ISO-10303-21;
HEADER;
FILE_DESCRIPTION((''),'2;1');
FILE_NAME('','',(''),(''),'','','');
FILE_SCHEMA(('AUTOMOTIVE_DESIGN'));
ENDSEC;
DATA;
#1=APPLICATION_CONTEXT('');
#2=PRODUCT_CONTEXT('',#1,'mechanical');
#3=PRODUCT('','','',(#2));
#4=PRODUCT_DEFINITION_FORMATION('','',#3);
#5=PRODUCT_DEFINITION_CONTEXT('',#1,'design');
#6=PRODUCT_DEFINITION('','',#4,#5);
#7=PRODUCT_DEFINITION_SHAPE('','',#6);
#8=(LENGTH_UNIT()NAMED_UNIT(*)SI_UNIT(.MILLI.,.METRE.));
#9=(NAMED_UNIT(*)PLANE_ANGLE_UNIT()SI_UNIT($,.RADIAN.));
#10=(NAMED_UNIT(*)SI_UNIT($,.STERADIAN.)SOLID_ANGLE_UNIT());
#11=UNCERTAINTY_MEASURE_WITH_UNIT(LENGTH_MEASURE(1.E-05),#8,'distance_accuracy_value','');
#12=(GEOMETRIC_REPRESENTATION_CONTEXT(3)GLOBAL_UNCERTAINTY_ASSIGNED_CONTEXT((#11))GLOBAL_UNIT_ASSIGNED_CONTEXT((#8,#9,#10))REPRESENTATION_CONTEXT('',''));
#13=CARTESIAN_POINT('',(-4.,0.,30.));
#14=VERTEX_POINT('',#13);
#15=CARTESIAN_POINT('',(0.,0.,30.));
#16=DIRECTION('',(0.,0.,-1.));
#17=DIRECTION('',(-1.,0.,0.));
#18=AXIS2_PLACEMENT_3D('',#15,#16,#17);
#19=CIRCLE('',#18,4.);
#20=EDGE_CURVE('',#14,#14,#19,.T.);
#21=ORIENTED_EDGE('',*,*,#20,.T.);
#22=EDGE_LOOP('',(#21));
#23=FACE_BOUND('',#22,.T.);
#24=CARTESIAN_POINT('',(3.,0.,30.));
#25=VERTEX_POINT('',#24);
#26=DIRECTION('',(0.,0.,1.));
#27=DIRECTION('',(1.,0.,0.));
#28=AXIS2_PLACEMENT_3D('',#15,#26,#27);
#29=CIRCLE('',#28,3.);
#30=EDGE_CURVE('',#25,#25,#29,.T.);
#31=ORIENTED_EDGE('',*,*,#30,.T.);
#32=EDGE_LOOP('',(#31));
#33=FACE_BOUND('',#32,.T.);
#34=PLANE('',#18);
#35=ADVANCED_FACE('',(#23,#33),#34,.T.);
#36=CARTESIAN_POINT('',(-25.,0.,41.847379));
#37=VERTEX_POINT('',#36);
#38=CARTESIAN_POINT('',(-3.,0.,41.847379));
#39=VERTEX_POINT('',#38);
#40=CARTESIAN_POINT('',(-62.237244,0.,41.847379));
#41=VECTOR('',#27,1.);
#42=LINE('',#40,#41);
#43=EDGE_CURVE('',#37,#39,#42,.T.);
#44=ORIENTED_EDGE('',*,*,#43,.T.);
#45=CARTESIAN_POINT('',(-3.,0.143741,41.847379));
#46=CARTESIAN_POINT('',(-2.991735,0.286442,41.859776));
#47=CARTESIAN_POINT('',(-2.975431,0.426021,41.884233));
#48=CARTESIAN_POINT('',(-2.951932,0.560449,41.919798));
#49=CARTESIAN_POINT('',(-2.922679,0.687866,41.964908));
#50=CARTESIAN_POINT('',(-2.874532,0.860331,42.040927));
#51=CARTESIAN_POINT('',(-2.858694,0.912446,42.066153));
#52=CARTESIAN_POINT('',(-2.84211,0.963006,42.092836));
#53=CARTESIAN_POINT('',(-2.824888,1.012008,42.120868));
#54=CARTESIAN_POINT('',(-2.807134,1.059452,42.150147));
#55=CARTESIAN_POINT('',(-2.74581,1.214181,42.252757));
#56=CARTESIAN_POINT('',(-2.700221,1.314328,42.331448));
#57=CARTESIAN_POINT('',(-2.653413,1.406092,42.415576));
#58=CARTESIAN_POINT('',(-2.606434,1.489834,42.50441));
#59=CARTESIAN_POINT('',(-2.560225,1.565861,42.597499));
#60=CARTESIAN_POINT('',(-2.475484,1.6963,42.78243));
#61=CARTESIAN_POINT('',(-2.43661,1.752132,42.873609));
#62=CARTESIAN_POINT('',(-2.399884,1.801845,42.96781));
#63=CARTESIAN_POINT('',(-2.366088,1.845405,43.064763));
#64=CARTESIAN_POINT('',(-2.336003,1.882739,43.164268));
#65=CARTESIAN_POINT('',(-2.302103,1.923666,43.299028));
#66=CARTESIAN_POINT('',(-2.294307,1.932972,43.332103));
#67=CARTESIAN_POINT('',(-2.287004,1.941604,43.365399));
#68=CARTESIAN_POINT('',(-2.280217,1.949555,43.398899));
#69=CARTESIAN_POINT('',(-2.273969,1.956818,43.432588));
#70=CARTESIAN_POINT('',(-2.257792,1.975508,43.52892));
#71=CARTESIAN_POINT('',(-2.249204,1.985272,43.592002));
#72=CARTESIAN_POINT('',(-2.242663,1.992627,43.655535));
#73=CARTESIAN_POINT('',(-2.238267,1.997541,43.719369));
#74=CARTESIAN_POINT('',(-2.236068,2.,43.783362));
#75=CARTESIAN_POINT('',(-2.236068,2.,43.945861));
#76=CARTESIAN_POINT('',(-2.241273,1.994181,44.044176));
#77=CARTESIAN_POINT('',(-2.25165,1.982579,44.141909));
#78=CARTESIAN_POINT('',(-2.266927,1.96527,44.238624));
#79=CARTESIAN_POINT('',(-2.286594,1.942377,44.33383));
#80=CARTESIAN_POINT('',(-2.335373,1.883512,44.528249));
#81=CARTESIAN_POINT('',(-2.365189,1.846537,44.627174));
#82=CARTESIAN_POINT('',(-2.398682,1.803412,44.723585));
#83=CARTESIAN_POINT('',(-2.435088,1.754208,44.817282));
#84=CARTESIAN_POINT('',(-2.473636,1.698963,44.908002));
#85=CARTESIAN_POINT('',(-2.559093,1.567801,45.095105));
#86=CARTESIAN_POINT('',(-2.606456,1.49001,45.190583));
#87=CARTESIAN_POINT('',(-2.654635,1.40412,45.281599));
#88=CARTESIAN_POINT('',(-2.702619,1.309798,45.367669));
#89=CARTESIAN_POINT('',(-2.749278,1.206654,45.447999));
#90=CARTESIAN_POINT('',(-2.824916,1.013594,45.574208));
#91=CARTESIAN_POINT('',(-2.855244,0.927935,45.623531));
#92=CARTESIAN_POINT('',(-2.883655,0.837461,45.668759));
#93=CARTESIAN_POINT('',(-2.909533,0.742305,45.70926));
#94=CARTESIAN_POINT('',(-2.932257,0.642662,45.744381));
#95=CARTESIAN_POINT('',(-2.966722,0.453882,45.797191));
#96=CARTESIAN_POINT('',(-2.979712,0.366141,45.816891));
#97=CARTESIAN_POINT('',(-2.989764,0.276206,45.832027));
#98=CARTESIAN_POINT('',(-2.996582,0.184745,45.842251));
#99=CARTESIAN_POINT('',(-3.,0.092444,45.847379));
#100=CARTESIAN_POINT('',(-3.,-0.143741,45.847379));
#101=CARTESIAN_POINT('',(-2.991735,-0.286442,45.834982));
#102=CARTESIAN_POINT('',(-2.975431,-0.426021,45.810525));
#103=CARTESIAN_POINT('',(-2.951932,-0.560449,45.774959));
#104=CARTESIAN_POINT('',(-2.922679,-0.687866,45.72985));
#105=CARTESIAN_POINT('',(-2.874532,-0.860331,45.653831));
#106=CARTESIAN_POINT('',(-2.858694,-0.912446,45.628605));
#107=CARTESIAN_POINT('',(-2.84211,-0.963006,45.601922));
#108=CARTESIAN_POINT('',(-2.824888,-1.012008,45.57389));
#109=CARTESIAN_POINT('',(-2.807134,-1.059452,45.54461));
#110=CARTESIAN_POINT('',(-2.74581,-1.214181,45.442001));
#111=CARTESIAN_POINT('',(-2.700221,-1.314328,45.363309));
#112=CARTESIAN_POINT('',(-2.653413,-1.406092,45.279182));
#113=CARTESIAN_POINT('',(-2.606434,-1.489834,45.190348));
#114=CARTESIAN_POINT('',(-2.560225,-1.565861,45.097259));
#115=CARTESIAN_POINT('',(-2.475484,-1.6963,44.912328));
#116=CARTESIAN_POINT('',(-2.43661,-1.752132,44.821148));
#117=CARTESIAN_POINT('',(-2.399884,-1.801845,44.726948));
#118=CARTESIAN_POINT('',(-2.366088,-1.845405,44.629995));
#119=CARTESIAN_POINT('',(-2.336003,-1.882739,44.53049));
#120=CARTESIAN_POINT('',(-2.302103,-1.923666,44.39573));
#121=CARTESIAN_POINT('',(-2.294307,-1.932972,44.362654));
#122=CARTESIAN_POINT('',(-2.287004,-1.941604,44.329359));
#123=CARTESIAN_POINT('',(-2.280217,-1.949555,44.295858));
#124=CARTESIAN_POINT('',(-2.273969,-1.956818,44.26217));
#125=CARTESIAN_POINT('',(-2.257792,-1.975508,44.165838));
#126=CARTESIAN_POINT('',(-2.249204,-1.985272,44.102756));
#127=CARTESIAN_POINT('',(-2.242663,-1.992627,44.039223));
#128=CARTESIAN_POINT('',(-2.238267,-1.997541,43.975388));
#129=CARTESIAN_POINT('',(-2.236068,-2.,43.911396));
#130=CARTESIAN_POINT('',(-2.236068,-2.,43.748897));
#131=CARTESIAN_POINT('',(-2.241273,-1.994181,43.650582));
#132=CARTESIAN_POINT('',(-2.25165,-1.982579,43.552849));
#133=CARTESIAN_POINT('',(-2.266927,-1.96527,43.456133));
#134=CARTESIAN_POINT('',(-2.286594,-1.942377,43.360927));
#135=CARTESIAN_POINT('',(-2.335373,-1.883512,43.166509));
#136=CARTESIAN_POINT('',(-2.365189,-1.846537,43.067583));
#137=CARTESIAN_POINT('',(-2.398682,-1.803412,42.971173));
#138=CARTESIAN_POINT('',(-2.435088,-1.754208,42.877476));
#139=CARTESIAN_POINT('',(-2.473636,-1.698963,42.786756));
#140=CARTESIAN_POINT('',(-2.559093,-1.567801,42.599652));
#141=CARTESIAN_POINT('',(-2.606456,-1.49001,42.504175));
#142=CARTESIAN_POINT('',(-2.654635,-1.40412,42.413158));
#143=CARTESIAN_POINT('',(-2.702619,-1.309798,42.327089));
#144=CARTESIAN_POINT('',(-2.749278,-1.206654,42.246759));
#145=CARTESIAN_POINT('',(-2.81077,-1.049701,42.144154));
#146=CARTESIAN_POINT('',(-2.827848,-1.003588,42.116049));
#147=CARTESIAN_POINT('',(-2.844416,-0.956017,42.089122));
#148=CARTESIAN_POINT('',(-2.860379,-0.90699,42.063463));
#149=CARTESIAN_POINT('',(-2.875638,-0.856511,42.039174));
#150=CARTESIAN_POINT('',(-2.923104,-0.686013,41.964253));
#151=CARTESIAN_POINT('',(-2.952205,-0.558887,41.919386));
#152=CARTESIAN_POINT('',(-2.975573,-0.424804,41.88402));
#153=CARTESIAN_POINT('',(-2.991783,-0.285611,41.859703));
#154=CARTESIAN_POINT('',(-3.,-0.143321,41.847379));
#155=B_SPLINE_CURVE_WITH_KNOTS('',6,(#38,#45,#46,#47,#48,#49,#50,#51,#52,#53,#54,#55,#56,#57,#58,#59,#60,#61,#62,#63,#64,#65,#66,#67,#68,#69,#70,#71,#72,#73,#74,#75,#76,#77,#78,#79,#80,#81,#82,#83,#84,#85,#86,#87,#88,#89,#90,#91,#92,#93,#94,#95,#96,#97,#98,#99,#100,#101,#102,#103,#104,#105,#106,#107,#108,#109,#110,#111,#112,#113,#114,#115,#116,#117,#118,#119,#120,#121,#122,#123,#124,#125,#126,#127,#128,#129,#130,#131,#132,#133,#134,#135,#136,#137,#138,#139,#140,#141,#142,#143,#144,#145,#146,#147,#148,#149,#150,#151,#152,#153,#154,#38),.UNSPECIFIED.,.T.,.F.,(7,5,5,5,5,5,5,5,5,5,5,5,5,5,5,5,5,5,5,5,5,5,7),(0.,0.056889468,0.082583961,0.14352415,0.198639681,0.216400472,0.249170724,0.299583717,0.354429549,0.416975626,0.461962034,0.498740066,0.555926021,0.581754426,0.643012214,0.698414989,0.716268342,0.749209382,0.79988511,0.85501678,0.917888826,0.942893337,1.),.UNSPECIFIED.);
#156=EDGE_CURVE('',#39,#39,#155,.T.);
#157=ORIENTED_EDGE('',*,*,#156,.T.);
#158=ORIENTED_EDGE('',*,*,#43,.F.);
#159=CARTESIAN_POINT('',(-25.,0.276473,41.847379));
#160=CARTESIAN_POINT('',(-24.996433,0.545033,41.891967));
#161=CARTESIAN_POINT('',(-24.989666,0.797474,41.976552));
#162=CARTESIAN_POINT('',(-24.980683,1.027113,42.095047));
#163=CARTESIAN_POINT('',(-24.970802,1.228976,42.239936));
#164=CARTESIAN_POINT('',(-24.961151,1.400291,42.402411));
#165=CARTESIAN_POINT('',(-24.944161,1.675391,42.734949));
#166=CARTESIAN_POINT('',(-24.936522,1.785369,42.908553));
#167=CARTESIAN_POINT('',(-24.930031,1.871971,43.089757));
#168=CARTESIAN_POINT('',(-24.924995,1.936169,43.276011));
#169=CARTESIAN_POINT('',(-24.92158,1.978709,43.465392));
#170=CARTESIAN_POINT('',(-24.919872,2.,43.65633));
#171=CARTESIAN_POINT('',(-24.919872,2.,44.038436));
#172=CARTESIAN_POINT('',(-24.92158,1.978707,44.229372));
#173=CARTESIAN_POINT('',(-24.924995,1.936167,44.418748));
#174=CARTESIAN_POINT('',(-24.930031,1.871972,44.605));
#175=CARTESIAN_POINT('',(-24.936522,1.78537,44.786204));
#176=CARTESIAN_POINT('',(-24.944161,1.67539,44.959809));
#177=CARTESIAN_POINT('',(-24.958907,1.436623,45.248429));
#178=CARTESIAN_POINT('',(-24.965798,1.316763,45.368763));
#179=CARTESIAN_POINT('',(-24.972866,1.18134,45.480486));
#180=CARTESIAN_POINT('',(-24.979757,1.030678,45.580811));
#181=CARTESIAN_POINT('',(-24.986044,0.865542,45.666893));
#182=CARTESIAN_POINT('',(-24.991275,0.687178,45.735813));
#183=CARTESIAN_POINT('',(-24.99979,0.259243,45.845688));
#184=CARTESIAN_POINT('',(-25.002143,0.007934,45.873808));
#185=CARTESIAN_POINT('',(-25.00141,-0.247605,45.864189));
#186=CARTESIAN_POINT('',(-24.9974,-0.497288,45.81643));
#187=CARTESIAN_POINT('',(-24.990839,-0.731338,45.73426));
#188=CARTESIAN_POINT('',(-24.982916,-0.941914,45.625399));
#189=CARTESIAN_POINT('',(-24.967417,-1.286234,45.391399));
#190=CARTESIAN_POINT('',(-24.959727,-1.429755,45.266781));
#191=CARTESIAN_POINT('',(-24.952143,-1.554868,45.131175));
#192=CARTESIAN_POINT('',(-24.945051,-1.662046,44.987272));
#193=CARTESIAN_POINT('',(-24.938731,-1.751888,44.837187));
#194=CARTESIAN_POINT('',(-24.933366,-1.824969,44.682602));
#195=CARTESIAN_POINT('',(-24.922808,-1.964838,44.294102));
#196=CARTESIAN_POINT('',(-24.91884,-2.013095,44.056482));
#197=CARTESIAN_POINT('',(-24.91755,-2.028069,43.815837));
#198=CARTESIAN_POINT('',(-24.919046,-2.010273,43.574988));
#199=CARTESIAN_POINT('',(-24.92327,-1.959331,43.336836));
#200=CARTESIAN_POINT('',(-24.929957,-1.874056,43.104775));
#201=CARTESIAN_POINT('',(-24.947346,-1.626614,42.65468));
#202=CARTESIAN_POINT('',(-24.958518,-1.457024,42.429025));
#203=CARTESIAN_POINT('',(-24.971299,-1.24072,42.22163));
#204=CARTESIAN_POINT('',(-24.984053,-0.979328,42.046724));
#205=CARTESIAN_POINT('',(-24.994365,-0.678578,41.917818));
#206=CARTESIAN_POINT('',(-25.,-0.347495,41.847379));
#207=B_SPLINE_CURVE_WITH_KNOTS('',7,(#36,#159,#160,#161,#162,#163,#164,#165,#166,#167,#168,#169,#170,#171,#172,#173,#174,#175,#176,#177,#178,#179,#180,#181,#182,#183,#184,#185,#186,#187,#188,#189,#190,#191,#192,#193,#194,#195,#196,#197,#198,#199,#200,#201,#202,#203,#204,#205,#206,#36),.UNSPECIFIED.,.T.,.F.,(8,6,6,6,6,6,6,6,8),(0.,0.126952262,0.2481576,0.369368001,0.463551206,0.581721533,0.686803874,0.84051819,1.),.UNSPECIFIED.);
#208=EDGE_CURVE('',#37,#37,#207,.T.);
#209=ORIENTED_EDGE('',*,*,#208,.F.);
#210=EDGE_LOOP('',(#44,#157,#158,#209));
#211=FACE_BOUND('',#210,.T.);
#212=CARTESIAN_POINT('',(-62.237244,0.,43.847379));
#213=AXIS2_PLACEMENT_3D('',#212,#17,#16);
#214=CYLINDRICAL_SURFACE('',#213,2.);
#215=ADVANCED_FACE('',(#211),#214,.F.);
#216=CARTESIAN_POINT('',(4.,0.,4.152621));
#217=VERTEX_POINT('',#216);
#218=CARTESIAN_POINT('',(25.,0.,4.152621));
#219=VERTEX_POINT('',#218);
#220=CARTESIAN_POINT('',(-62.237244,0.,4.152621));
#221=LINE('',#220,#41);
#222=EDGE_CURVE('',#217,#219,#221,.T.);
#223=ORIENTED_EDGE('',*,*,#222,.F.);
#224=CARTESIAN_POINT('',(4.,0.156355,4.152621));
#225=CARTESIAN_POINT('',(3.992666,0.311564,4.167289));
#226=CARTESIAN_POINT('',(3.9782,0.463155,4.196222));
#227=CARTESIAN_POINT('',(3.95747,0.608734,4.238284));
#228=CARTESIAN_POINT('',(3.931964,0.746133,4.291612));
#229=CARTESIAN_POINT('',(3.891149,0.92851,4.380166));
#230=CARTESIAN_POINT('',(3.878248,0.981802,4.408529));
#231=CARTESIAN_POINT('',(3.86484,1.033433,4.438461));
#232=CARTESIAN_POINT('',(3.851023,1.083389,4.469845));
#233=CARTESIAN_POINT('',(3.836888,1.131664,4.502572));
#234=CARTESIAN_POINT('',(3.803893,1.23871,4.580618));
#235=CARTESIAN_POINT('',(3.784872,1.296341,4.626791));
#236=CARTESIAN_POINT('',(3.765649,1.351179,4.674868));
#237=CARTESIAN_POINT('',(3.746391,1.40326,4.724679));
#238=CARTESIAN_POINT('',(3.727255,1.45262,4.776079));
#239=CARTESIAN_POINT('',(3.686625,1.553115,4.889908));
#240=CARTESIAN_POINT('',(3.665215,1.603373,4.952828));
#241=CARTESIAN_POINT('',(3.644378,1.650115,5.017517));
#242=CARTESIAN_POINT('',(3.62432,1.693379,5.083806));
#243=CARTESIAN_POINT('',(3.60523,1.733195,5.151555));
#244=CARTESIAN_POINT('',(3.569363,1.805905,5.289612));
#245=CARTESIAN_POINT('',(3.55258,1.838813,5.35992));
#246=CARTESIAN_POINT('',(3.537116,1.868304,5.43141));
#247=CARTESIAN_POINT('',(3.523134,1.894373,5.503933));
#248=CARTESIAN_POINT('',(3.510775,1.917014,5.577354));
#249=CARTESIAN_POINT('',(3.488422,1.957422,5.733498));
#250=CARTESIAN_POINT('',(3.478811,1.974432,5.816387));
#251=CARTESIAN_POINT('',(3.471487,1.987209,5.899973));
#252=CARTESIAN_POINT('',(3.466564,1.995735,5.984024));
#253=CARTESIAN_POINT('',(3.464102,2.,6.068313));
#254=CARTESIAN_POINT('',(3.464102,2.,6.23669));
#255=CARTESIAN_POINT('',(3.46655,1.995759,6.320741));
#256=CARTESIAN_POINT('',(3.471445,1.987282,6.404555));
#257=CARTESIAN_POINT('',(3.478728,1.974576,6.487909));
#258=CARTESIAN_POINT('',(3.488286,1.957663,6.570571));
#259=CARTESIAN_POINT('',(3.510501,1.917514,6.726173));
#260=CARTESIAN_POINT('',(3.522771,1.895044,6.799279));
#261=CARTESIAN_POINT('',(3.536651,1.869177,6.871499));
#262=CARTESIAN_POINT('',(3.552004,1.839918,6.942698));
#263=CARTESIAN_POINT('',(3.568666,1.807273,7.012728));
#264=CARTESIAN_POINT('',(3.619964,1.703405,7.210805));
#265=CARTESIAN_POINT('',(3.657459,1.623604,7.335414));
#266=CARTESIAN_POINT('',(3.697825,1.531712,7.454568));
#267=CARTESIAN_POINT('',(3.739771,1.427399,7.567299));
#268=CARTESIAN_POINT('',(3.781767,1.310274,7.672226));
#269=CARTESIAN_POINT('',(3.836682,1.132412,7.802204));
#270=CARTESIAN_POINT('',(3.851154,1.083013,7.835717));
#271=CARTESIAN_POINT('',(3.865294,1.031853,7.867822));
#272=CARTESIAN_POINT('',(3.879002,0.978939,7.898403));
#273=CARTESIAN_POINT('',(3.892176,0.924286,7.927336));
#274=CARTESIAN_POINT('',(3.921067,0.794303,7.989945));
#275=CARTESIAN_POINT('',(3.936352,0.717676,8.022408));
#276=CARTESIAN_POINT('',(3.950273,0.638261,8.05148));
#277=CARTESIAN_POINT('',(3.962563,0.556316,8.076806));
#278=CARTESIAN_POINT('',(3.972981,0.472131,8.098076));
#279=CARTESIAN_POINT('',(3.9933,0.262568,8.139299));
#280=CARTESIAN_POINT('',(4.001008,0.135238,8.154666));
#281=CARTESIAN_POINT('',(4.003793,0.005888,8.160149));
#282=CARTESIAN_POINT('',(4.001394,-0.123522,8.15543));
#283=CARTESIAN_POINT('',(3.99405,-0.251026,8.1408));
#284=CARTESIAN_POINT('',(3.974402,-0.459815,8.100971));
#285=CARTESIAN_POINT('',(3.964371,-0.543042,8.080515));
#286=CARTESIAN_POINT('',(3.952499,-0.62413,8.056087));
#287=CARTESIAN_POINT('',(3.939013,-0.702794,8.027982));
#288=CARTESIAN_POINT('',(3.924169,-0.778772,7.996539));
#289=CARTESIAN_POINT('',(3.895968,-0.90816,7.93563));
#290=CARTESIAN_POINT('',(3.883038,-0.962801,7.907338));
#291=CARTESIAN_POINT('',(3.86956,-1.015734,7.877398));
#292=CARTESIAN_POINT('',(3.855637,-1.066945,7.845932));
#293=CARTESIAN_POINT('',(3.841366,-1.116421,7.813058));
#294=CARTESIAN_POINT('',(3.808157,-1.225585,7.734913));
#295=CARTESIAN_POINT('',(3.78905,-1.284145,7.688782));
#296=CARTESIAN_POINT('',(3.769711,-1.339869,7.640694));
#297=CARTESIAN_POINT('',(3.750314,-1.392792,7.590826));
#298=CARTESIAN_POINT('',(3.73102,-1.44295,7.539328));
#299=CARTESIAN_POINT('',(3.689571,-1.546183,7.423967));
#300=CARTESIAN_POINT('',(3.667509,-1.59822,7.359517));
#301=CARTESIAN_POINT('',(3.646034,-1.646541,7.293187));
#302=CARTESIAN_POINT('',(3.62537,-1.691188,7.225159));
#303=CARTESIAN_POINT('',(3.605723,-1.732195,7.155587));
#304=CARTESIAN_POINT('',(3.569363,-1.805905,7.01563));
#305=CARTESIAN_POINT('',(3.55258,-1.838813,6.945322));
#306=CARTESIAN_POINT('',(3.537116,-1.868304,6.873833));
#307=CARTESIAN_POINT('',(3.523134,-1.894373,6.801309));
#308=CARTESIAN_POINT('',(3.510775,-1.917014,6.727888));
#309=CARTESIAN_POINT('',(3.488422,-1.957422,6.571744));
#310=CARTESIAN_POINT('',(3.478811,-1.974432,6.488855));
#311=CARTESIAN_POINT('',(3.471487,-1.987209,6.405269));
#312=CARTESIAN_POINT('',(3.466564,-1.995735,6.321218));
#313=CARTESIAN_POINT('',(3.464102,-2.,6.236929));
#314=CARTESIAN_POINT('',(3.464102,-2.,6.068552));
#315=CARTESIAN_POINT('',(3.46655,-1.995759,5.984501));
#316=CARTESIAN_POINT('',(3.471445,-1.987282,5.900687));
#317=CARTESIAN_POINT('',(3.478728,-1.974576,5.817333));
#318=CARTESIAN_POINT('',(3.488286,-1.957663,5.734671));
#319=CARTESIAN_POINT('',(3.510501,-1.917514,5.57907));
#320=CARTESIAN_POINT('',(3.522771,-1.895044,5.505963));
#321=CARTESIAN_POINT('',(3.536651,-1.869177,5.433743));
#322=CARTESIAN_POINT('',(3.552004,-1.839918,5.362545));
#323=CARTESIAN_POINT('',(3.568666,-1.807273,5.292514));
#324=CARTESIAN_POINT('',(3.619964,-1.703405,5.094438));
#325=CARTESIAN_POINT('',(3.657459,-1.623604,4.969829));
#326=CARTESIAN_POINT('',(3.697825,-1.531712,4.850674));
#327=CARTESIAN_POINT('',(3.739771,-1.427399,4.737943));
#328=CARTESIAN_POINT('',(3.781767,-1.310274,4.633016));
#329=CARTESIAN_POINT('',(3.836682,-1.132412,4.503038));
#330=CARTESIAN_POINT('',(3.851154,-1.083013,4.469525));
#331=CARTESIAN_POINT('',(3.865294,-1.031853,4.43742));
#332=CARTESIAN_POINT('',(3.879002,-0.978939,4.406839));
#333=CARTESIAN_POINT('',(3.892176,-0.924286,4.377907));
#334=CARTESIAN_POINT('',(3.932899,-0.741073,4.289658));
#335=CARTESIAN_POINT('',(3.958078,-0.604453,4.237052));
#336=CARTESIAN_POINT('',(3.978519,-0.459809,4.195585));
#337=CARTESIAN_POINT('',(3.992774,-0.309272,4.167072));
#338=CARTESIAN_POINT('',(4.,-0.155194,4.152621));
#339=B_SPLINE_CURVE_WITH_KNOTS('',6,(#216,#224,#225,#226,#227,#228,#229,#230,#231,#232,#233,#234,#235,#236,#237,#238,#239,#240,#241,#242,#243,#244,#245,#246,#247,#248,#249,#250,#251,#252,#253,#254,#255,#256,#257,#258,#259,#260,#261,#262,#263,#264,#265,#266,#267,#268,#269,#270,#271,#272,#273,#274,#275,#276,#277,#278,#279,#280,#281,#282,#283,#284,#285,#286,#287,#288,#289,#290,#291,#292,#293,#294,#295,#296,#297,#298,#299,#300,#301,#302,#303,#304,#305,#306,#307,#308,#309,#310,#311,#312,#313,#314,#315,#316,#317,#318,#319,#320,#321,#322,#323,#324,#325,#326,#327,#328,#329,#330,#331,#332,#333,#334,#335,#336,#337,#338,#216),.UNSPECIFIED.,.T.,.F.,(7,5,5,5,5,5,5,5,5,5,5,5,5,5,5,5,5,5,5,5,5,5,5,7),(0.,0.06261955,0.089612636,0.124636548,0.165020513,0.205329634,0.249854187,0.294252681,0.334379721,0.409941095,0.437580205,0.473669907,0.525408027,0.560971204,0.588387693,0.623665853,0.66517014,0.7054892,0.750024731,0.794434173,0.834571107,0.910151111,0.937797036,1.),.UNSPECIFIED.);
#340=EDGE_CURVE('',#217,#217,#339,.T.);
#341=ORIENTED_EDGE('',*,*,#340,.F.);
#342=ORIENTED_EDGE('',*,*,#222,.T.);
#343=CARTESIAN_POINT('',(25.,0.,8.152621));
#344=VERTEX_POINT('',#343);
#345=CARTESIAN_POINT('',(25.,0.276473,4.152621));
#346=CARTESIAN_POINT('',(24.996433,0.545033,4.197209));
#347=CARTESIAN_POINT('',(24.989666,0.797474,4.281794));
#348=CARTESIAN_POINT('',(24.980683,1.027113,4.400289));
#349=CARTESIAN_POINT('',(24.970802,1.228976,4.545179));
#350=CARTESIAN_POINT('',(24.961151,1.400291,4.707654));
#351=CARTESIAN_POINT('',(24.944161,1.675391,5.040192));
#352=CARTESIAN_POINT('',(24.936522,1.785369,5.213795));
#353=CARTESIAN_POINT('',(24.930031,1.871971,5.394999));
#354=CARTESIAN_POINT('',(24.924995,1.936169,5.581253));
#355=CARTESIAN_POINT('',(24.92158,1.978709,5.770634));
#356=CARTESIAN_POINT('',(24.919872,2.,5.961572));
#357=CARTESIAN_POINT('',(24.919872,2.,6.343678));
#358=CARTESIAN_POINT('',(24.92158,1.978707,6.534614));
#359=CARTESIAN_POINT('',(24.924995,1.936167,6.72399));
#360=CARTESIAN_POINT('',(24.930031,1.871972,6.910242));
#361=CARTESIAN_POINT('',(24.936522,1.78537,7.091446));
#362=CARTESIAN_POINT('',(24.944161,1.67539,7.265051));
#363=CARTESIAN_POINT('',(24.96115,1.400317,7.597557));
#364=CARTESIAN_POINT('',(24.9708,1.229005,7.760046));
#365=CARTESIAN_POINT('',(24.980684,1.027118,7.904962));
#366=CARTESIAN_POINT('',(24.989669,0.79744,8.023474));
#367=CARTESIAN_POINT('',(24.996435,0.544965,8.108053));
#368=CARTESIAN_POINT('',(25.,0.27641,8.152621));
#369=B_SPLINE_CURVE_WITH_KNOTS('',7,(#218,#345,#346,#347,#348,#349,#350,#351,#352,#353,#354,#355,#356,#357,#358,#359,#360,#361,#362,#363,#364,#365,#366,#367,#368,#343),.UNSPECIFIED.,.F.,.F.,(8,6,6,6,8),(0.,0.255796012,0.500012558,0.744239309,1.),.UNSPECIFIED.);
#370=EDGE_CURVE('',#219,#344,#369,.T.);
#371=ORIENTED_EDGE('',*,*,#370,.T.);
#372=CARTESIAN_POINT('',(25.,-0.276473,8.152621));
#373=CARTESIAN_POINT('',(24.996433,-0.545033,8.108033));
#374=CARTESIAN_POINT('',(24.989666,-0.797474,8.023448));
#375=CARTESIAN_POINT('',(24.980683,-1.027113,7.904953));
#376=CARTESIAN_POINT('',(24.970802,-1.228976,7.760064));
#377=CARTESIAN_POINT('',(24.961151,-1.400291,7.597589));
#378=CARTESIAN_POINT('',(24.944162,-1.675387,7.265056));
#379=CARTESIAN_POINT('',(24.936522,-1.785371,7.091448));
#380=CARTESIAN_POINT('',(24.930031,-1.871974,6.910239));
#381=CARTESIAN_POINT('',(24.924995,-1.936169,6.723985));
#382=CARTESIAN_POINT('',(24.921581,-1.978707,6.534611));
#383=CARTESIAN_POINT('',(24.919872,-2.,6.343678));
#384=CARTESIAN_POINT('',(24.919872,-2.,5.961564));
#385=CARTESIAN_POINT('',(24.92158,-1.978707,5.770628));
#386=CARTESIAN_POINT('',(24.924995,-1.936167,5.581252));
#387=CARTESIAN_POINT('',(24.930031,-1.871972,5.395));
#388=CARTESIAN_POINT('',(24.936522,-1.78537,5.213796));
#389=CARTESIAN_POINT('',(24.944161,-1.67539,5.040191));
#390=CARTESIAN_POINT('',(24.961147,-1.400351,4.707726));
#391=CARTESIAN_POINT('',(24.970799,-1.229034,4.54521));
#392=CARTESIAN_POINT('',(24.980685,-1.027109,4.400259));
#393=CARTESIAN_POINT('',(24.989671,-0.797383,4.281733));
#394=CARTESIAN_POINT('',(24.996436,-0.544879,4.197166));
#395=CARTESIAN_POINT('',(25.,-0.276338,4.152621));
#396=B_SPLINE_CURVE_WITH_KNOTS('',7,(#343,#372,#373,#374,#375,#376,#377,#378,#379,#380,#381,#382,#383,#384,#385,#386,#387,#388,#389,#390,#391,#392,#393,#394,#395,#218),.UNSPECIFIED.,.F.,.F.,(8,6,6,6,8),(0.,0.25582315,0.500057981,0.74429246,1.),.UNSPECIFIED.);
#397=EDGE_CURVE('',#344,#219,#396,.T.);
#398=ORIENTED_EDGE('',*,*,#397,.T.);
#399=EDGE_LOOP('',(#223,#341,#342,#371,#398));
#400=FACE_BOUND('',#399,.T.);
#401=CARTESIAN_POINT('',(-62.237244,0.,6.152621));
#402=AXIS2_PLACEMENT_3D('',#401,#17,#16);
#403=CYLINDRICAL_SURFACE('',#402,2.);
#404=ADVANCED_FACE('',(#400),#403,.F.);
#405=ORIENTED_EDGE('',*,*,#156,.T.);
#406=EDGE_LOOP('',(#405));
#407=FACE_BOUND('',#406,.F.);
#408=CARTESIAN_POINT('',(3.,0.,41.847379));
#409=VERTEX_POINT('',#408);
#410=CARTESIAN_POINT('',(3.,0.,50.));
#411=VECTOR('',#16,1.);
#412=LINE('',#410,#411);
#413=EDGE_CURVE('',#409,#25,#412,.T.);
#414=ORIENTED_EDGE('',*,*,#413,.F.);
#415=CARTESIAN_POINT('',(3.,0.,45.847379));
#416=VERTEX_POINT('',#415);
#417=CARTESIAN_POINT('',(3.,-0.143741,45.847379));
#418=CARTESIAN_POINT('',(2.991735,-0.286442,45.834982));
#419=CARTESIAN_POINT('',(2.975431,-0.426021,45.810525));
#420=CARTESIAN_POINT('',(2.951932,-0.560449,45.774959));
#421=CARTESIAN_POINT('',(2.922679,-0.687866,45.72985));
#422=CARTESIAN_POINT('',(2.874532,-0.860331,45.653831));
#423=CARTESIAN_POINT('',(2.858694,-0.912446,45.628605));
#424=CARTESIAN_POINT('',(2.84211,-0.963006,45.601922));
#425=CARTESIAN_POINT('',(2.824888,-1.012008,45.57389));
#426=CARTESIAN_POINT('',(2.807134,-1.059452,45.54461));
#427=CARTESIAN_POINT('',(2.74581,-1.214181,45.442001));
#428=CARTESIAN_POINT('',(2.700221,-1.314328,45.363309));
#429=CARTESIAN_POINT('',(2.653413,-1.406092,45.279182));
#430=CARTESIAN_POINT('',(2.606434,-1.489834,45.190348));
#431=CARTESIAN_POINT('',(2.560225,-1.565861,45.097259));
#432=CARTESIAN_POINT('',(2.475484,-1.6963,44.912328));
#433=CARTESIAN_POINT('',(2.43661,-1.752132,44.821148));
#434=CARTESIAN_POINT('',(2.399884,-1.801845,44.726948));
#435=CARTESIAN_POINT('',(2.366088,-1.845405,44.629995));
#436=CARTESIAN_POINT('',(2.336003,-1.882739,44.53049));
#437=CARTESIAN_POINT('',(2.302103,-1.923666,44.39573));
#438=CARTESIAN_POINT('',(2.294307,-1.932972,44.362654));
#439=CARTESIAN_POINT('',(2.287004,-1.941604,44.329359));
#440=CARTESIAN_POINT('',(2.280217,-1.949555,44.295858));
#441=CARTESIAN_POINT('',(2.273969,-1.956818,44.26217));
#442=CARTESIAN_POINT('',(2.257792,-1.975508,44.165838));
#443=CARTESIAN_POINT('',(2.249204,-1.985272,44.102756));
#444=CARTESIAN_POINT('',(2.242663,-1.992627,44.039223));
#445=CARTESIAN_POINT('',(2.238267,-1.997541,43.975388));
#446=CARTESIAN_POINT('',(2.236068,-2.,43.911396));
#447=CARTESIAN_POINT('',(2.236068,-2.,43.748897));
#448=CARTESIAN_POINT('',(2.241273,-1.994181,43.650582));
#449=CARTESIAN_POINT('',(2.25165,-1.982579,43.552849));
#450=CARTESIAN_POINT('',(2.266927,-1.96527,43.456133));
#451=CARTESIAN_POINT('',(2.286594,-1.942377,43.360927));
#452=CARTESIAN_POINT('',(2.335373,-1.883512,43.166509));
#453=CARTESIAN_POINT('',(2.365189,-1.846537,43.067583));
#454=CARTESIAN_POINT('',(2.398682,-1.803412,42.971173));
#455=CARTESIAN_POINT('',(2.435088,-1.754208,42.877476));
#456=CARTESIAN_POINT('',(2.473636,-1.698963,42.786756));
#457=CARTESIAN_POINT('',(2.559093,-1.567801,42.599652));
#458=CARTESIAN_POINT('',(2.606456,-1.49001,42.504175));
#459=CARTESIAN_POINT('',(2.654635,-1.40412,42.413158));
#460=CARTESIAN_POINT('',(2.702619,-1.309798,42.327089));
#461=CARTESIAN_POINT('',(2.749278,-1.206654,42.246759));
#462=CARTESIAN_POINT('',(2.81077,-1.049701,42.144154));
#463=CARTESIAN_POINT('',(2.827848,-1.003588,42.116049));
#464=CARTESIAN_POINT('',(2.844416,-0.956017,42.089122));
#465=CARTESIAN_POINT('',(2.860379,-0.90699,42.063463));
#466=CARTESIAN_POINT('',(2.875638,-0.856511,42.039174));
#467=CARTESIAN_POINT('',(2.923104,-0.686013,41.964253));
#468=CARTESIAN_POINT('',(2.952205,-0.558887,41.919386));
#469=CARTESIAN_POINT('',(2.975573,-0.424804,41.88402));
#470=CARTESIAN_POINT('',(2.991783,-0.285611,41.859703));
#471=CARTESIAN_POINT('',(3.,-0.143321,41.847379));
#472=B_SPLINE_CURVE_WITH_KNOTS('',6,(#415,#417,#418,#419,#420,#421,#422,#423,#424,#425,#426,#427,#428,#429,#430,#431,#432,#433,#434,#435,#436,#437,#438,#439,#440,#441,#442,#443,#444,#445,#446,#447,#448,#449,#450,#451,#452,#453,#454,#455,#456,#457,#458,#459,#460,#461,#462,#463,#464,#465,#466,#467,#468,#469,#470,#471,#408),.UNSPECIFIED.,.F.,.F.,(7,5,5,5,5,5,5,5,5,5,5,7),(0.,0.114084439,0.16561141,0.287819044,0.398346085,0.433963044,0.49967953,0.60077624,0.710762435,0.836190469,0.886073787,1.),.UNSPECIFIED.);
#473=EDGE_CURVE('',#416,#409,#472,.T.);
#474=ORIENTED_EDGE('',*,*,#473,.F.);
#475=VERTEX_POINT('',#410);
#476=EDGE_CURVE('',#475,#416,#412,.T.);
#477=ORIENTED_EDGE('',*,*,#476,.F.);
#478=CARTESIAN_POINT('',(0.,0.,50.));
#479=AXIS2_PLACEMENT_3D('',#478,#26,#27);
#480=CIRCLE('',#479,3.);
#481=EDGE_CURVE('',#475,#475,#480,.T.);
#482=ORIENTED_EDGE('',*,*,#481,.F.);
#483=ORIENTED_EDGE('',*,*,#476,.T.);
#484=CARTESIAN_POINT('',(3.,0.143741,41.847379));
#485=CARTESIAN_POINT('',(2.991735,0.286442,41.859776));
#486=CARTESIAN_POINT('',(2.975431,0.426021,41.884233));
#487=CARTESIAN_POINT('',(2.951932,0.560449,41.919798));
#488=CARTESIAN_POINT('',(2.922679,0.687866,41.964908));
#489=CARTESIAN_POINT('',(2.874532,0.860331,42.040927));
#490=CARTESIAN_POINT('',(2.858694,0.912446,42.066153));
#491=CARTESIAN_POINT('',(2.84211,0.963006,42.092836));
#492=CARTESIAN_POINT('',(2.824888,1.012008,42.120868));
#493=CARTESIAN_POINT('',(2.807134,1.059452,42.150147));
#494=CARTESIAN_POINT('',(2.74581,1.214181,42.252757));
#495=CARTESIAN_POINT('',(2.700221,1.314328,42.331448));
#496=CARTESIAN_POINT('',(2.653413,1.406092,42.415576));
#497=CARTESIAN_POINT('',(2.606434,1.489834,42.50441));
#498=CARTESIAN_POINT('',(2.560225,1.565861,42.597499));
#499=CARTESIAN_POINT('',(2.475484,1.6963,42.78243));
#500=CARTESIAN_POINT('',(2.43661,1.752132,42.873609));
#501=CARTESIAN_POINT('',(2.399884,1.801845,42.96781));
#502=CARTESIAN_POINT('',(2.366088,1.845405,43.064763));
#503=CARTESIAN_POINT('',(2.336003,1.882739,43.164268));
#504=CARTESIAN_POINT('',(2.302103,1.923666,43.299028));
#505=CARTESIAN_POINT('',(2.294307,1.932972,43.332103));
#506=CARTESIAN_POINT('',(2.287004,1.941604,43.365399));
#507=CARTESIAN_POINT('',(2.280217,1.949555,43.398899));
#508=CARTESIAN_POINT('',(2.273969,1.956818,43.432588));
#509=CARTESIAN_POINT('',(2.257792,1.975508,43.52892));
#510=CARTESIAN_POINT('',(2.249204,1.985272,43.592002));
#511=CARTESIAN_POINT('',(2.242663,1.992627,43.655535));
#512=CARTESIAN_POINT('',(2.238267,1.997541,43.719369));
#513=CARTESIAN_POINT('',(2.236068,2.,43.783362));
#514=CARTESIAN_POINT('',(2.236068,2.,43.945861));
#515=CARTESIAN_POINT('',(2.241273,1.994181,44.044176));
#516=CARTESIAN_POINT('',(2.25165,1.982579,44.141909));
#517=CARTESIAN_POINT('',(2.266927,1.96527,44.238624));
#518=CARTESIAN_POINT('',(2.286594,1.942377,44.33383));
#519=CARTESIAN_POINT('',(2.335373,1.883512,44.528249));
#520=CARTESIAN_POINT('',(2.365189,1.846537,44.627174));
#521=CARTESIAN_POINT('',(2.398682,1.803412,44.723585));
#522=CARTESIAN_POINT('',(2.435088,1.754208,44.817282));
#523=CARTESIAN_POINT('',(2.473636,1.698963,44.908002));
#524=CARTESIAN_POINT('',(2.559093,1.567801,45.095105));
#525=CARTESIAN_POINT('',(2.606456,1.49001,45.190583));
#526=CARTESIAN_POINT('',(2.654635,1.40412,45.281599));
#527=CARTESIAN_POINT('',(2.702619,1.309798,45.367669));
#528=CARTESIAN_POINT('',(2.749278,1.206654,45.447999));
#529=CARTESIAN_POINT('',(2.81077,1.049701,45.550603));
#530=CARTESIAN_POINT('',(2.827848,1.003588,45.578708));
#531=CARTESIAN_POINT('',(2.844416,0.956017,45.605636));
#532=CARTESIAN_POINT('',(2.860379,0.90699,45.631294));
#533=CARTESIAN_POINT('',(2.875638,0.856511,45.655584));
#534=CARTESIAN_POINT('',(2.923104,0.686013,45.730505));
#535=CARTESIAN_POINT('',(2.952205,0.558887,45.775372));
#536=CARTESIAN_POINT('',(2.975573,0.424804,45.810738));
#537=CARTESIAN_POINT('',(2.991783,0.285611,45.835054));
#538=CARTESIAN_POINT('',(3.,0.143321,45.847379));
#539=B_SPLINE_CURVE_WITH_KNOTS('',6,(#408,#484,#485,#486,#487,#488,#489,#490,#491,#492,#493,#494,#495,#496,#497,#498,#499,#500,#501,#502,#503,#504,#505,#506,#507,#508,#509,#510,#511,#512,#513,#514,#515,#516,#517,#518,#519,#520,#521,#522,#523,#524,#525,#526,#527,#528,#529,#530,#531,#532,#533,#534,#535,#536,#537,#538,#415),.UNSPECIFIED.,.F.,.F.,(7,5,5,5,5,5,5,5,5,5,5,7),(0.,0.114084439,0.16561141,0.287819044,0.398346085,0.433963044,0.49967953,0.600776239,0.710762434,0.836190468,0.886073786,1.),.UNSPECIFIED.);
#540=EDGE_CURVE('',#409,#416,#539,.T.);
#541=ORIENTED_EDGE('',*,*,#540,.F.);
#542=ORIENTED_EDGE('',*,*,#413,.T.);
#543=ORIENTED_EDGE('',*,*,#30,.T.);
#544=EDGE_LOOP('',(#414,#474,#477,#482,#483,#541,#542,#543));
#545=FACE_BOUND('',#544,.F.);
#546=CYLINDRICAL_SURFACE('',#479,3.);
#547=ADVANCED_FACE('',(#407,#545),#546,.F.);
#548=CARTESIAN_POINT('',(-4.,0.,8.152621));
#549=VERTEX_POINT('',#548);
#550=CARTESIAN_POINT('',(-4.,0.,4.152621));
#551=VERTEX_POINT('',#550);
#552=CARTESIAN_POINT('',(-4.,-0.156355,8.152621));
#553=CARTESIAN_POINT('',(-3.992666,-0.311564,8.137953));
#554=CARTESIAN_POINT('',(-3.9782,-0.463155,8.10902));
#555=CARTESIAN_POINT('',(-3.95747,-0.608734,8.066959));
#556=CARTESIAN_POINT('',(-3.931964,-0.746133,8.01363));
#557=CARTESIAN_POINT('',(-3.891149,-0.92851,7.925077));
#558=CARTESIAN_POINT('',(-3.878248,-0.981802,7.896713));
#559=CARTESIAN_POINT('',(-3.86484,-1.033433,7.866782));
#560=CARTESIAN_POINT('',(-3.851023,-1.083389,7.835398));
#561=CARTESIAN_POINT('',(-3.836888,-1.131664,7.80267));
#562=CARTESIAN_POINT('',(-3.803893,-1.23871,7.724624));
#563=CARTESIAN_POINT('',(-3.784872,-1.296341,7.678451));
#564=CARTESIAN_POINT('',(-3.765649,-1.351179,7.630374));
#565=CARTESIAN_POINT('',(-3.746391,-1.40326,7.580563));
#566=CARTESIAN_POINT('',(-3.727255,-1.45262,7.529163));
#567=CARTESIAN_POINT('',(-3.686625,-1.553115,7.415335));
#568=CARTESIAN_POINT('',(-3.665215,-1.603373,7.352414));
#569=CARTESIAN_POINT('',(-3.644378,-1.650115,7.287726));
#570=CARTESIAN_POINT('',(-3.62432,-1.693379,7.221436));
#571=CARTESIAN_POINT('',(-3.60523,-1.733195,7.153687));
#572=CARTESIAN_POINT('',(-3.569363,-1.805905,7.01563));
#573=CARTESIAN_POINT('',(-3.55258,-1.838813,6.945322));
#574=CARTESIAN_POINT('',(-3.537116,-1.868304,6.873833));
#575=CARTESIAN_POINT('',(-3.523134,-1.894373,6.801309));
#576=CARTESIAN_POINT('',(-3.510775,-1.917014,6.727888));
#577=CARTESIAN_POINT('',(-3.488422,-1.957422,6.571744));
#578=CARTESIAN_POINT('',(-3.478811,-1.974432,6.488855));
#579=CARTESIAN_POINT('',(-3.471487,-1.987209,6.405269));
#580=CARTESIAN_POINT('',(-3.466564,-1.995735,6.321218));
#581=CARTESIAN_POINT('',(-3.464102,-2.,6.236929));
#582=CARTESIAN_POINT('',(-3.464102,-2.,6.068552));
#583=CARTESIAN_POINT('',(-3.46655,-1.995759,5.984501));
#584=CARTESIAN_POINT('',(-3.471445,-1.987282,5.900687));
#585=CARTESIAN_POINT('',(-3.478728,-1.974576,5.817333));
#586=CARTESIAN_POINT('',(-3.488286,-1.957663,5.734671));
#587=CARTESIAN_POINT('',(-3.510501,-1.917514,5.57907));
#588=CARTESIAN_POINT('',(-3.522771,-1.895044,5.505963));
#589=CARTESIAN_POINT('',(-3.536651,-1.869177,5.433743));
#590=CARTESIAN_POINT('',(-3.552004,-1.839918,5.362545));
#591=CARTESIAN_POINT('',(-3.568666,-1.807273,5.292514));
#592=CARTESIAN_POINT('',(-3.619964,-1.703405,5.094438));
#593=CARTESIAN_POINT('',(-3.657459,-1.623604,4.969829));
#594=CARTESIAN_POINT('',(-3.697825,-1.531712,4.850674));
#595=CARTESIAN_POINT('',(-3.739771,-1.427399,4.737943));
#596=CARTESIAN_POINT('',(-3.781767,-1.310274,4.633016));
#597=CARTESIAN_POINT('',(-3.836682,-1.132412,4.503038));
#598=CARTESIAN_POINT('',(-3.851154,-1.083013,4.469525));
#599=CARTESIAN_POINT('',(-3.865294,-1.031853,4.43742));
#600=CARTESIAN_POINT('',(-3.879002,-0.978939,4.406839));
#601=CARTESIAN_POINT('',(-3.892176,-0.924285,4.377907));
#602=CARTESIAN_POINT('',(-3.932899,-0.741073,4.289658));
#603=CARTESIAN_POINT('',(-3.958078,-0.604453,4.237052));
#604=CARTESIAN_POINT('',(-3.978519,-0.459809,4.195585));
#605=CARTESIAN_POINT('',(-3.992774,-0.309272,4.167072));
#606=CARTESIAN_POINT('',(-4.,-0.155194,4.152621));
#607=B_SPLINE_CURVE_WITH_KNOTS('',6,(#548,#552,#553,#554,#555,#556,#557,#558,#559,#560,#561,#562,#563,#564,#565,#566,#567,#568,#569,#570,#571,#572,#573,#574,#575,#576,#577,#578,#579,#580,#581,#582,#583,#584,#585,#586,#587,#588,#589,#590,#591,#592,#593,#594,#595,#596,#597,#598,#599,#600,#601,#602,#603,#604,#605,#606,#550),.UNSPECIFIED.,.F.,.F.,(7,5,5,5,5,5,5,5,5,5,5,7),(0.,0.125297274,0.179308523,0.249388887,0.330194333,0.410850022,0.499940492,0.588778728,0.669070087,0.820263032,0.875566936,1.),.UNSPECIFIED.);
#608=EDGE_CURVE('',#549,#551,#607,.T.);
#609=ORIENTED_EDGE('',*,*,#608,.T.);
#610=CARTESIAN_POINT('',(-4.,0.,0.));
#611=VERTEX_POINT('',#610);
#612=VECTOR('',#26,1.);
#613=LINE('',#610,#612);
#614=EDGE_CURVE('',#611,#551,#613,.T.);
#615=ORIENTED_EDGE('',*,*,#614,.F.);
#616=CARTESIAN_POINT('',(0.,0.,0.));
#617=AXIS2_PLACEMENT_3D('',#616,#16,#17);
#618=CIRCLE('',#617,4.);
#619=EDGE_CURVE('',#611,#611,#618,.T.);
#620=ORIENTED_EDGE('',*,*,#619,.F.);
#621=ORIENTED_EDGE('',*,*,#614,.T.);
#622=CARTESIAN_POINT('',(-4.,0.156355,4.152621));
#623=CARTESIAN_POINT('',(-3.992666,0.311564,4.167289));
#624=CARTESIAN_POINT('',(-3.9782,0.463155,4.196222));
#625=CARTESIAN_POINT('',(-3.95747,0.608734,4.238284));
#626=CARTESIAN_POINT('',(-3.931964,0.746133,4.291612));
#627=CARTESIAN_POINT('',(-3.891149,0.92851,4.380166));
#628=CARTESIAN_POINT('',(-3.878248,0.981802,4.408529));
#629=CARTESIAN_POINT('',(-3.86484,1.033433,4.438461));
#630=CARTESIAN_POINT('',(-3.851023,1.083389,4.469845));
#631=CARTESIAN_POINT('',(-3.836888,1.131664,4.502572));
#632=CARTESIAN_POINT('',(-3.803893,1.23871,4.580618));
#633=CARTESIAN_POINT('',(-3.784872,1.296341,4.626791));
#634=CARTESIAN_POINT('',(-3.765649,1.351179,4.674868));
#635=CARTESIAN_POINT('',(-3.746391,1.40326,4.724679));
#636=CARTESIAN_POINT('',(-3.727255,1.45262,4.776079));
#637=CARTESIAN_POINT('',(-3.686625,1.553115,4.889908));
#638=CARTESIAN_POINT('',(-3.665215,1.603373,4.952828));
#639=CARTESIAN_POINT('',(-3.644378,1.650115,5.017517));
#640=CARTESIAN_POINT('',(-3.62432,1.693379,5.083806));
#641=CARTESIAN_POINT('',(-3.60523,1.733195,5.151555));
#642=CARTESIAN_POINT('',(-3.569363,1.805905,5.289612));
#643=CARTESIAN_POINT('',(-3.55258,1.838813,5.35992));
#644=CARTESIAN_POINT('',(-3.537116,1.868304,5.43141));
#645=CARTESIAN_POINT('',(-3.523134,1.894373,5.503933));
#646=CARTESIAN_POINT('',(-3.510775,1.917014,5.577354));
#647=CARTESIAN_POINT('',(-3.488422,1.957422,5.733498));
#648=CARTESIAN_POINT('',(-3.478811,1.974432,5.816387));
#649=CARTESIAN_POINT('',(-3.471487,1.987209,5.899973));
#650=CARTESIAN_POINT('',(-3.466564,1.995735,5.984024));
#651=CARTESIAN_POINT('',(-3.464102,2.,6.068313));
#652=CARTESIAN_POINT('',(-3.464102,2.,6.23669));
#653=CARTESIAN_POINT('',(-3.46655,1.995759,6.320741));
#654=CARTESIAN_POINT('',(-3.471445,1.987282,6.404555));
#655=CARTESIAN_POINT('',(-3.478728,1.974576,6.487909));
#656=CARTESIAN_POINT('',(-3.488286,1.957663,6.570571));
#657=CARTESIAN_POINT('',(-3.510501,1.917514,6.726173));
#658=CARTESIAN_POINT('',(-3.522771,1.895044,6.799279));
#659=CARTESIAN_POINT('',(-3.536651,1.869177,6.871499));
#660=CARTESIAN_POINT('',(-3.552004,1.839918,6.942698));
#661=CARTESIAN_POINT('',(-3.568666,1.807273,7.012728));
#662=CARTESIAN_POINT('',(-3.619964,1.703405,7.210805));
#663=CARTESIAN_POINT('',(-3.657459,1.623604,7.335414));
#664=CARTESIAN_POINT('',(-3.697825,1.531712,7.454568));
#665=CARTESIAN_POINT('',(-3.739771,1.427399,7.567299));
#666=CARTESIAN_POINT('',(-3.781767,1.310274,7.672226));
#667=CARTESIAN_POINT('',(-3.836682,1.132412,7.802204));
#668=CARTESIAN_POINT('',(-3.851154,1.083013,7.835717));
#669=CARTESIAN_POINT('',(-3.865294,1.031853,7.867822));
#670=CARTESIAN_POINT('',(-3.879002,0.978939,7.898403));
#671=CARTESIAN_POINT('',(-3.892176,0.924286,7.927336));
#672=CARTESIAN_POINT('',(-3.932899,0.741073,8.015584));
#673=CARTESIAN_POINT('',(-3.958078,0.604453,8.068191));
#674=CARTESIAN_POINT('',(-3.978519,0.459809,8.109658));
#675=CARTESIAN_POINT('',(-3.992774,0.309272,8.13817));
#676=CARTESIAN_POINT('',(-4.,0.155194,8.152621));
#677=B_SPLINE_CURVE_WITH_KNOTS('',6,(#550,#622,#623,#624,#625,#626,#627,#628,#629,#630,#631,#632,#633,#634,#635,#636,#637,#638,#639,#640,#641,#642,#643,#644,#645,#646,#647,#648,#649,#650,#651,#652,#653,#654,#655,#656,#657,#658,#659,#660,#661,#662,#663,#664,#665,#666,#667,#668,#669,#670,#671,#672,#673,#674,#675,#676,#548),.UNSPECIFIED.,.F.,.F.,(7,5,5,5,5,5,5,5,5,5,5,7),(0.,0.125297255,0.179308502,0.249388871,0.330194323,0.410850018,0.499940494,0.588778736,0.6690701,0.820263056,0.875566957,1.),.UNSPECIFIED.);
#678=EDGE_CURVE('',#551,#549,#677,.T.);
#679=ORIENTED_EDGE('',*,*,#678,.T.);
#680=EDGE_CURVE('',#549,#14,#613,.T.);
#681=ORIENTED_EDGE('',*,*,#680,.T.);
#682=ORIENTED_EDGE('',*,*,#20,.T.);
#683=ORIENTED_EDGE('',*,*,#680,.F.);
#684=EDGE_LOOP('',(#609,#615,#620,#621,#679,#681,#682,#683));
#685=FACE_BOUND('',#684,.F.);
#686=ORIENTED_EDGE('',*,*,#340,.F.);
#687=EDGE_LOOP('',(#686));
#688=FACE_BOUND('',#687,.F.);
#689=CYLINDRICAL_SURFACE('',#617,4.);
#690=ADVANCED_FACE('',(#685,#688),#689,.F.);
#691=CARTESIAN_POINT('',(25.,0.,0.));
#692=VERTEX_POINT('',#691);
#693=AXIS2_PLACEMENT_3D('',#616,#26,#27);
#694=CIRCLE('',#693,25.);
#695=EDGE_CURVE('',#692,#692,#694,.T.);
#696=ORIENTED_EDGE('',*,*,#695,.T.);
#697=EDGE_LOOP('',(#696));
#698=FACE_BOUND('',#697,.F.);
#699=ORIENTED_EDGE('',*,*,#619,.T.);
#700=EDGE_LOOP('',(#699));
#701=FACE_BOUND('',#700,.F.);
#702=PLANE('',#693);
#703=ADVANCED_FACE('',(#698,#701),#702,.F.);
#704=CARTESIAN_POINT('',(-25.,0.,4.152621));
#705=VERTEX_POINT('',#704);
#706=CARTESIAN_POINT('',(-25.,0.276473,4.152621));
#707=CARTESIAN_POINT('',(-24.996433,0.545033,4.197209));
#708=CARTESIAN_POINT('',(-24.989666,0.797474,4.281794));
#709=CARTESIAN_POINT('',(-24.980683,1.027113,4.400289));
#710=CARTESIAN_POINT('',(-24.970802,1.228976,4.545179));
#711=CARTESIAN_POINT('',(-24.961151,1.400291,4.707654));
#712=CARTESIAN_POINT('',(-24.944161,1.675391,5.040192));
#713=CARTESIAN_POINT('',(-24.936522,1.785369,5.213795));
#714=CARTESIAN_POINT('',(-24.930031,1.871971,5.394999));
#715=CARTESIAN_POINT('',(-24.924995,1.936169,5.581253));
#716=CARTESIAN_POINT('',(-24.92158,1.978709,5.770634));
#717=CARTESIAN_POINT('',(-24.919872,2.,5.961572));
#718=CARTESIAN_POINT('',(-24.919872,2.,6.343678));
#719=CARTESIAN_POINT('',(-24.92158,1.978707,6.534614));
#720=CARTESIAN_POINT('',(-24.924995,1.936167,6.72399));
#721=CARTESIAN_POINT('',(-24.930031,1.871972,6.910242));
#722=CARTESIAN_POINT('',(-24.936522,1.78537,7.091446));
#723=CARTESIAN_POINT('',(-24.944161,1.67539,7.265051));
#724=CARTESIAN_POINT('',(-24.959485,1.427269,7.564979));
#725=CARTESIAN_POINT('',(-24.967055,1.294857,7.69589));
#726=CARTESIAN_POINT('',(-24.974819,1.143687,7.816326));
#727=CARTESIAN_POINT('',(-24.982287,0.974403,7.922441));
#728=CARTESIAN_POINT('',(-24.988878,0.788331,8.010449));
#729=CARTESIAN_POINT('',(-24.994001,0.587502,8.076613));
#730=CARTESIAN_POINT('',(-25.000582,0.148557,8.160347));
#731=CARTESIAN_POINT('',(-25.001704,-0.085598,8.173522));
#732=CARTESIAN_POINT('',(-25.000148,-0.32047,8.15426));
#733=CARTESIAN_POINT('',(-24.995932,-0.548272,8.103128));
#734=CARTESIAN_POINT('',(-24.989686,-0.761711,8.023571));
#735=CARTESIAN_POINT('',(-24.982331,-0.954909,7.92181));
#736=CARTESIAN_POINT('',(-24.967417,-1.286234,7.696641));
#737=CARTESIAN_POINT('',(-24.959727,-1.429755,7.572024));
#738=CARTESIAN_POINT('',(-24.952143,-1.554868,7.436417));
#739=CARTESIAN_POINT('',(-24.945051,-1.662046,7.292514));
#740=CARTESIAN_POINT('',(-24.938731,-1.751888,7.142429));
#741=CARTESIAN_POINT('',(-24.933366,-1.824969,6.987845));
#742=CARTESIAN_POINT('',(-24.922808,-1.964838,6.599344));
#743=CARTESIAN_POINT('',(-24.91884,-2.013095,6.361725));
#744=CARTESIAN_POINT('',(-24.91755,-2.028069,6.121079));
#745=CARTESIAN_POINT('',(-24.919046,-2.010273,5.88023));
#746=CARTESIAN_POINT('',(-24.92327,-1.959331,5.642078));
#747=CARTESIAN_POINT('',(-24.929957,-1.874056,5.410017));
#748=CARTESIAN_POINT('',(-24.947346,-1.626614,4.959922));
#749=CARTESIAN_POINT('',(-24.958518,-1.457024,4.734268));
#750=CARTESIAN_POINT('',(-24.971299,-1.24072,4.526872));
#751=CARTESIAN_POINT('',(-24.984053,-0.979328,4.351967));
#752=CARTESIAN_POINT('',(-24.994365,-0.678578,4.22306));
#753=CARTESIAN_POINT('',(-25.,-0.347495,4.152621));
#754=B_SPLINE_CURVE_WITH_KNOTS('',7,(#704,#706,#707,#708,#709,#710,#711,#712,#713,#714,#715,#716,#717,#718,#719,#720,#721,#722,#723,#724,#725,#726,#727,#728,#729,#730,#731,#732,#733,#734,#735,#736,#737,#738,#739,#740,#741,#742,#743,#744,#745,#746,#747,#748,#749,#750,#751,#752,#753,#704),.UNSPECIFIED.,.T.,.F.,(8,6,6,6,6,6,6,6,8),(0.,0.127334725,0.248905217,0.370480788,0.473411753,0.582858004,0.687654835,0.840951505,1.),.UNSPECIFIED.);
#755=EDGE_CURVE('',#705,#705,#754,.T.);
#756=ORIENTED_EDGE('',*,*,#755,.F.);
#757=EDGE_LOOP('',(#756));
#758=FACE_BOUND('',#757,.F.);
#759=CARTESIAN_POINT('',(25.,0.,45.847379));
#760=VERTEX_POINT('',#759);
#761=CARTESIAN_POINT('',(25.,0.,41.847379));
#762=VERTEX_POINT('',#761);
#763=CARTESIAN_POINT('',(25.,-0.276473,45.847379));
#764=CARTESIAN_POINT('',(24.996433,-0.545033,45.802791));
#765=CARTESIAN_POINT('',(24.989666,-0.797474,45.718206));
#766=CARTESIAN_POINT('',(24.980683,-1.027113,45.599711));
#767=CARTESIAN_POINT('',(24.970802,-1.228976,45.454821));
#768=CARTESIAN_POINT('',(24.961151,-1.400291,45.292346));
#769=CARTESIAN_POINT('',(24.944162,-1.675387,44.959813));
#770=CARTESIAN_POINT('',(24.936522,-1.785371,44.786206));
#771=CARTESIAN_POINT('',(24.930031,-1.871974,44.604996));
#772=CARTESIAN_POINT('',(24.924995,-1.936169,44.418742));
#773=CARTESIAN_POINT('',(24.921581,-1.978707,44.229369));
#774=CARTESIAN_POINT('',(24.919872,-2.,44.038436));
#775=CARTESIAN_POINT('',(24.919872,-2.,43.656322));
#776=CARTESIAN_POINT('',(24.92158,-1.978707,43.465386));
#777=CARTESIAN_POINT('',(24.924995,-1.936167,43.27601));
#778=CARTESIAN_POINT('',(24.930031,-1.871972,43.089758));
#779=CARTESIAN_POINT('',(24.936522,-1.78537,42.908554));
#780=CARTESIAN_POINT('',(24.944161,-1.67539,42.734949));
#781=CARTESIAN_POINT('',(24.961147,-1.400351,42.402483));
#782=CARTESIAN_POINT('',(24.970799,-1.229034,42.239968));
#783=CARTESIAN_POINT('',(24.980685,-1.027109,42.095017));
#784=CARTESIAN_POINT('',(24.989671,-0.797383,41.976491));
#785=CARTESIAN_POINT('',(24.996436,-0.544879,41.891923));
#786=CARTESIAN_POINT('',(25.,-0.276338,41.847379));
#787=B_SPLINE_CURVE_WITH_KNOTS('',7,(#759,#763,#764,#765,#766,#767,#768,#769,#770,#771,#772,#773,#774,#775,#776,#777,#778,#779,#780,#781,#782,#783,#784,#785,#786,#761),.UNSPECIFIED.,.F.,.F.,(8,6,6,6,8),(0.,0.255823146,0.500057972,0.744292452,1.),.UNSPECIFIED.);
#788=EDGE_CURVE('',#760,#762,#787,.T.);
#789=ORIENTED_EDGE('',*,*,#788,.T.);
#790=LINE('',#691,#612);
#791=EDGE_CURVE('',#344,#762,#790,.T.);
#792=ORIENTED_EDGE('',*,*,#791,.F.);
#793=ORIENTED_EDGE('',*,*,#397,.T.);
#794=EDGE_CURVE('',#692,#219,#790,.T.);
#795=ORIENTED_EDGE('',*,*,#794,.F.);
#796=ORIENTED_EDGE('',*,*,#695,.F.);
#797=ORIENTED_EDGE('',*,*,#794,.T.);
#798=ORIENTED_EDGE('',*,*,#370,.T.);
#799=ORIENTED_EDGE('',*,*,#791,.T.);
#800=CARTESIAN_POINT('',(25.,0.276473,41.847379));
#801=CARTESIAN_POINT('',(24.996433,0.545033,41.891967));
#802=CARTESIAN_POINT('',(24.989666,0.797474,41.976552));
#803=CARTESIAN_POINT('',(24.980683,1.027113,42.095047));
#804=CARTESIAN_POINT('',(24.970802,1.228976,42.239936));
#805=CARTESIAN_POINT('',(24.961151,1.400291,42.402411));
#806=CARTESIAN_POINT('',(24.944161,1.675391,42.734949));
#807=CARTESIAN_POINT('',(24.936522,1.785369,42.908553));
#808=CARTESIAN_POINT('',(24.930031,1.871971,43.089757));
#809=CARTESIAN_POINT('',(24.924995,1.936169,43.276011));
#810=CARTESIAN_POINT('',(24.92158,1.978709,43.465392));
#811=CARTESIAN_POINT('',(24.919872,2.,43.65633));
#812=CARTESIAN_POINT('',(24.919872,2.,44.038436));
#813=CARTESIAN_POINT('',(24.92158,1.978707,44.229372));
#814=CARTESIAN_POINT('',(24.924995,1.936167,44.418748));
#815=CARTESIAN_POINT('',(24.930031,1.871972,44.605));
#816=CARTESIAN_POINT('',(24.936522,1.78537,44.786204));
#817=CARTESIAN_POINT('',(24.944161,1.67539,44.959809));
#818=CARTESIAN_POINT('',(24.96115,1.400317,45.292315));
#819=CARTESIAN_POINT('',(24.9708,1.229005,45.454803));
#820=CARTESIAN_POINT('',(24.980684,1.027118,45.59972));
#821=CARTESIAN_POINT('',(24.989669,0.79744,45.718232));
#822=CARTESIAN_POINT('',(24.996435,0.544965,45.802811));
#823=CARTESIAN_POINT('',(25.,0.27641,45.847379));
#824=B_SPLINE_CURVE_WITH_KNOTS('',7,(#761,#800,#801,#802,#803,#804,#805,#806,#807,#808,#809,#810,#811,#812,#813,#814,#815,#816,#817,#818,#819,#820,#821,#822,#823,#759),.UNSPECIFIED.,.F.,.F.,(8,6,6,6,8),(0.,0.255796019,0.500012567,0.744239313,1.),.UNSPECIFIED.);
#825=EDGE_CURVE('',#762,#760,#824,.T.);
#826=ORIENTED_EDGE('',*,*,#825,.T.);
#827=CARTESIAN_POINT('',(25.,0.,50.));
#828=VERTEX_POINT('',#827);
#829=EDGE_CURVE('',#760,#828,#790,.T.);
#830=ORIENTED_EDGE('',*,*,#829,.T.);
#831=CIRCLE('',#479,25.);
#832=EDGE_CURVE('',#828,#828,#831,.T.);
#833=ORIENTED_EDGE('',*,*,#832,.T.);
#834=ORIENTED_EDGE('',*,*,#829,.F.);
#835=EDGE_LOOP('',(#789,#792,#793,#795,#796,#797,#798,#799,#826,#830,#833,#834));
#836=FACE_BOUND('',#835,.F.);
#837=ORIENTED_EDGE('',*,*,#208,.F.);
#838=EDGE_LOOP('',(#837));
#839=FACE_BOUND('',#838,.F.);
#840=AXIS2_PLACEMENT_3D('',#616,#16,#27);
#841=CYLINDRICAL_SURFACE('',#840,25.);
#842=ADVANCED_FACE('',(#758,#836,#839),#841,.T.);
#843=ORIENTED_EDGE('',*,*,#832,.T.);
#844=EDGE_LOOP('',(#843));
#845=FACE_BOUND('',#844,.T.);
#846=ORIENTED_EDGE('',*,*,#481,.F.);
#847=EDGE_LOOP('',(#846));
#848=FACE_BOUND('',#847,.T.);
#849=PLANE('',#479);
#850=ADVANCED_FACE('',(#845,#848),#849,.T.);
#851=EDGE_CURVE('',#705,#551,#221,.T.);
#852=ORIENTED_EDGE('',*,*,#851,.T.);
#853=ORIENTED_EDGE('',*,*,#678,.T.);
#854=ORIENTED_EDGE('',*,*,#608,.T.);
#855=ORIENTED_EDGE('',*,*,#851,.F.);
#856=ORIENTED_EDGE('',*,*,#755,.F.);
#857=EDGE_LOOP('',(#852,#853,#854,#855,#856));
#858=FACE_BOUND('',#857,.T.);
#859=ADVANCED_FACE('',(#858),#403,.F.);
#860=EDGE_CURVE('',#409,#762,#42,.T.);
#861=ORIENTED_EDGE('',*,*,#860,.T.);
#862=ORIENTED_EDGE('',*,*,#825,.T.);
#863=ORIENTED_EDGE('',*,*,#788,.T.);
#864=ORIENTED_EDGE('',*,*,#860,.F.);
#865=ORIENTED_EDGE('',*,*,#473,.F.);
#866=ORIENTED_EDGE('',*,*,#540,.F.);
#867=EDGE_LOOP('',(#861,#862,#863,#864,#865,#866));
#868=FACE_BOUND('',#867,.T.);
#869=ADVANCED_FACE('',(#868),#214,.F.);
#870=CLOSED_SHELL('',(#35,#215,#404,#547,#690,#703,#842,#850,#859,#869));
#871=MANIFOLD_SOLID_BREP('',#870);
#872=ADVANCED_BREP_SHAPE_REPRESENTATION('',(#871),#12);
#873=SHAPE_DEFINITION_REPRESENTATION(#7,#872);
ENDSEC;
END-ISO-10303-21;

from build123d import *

# Parameters (mm, degrees)
SKETCH1_R               = 25
BOSS_EXTRUDE1_DEPTH     = 50
SKETCH2_R               = 3
CUT_EXTRUDE1_DEPTH      = 20
SKETCH3_R               = 4
CUT_EXTRUDE2_DEPTH      = 30
CUT_EXTRUDE3_DEPTH      = 62.23724357
CUT_EXTRUDE3_DEPTH_BACK = 62.23724357
SKETCH4_R               = 2


with BuildPart() as part:
    # Sketch1 → Boss-Extrude1 (new body)
    with BuildSketch(Plane.XY):
        Circle(SKETCH1_R)
    extrude(amount=BOSS_EXTRUDE1_DEPTH)

    # Sketch2 → Cut-Extrude1 (cut)
    with BuildSketch(Plane.XY.offset(50)):
        Circle(SKETCH2_R)
    extrude(amount=-CUT_EXTRUDE1_DEPTH, mode=Mode.SUBTRACT)

    # Sketch3 → Cut-Extrude2 (cut)
    with BuildSketch(Plane(origin=(0, 0, 0), x_dir=(-1, 0, 0), z_dir=(0, 0, -1))):
        Circle(SKETCH3_R)
    extrude(amount=-CUT_EXTRUDE2_DEPTH, mode=Mode.SUBTRACT)

    # Sketch4 → Cut-Extrude3 (cut, two sides: drawn at the far end of the back side and taken through both)
    with BuildSketch(Plane(origin=(0, 0, 0), x_dir=(0, 0, -1), z_dir=(1, 0, 0)).offset(-CUT_EXTRUDE3_DEPTH_BACK)):
        with Locations((-43.847378844, 0)):
            Circle(SKETCH4_R)
        with Locations((-6.152621156, 0)):
            Circle(SKETCH4_R)
    extrude(amount=CUT_EXTRUDE3_DEPTH + CUT_EXTRUDE3_DEPTH_BACK, mode=Mode.SUBTRACT)


solid = part.part
